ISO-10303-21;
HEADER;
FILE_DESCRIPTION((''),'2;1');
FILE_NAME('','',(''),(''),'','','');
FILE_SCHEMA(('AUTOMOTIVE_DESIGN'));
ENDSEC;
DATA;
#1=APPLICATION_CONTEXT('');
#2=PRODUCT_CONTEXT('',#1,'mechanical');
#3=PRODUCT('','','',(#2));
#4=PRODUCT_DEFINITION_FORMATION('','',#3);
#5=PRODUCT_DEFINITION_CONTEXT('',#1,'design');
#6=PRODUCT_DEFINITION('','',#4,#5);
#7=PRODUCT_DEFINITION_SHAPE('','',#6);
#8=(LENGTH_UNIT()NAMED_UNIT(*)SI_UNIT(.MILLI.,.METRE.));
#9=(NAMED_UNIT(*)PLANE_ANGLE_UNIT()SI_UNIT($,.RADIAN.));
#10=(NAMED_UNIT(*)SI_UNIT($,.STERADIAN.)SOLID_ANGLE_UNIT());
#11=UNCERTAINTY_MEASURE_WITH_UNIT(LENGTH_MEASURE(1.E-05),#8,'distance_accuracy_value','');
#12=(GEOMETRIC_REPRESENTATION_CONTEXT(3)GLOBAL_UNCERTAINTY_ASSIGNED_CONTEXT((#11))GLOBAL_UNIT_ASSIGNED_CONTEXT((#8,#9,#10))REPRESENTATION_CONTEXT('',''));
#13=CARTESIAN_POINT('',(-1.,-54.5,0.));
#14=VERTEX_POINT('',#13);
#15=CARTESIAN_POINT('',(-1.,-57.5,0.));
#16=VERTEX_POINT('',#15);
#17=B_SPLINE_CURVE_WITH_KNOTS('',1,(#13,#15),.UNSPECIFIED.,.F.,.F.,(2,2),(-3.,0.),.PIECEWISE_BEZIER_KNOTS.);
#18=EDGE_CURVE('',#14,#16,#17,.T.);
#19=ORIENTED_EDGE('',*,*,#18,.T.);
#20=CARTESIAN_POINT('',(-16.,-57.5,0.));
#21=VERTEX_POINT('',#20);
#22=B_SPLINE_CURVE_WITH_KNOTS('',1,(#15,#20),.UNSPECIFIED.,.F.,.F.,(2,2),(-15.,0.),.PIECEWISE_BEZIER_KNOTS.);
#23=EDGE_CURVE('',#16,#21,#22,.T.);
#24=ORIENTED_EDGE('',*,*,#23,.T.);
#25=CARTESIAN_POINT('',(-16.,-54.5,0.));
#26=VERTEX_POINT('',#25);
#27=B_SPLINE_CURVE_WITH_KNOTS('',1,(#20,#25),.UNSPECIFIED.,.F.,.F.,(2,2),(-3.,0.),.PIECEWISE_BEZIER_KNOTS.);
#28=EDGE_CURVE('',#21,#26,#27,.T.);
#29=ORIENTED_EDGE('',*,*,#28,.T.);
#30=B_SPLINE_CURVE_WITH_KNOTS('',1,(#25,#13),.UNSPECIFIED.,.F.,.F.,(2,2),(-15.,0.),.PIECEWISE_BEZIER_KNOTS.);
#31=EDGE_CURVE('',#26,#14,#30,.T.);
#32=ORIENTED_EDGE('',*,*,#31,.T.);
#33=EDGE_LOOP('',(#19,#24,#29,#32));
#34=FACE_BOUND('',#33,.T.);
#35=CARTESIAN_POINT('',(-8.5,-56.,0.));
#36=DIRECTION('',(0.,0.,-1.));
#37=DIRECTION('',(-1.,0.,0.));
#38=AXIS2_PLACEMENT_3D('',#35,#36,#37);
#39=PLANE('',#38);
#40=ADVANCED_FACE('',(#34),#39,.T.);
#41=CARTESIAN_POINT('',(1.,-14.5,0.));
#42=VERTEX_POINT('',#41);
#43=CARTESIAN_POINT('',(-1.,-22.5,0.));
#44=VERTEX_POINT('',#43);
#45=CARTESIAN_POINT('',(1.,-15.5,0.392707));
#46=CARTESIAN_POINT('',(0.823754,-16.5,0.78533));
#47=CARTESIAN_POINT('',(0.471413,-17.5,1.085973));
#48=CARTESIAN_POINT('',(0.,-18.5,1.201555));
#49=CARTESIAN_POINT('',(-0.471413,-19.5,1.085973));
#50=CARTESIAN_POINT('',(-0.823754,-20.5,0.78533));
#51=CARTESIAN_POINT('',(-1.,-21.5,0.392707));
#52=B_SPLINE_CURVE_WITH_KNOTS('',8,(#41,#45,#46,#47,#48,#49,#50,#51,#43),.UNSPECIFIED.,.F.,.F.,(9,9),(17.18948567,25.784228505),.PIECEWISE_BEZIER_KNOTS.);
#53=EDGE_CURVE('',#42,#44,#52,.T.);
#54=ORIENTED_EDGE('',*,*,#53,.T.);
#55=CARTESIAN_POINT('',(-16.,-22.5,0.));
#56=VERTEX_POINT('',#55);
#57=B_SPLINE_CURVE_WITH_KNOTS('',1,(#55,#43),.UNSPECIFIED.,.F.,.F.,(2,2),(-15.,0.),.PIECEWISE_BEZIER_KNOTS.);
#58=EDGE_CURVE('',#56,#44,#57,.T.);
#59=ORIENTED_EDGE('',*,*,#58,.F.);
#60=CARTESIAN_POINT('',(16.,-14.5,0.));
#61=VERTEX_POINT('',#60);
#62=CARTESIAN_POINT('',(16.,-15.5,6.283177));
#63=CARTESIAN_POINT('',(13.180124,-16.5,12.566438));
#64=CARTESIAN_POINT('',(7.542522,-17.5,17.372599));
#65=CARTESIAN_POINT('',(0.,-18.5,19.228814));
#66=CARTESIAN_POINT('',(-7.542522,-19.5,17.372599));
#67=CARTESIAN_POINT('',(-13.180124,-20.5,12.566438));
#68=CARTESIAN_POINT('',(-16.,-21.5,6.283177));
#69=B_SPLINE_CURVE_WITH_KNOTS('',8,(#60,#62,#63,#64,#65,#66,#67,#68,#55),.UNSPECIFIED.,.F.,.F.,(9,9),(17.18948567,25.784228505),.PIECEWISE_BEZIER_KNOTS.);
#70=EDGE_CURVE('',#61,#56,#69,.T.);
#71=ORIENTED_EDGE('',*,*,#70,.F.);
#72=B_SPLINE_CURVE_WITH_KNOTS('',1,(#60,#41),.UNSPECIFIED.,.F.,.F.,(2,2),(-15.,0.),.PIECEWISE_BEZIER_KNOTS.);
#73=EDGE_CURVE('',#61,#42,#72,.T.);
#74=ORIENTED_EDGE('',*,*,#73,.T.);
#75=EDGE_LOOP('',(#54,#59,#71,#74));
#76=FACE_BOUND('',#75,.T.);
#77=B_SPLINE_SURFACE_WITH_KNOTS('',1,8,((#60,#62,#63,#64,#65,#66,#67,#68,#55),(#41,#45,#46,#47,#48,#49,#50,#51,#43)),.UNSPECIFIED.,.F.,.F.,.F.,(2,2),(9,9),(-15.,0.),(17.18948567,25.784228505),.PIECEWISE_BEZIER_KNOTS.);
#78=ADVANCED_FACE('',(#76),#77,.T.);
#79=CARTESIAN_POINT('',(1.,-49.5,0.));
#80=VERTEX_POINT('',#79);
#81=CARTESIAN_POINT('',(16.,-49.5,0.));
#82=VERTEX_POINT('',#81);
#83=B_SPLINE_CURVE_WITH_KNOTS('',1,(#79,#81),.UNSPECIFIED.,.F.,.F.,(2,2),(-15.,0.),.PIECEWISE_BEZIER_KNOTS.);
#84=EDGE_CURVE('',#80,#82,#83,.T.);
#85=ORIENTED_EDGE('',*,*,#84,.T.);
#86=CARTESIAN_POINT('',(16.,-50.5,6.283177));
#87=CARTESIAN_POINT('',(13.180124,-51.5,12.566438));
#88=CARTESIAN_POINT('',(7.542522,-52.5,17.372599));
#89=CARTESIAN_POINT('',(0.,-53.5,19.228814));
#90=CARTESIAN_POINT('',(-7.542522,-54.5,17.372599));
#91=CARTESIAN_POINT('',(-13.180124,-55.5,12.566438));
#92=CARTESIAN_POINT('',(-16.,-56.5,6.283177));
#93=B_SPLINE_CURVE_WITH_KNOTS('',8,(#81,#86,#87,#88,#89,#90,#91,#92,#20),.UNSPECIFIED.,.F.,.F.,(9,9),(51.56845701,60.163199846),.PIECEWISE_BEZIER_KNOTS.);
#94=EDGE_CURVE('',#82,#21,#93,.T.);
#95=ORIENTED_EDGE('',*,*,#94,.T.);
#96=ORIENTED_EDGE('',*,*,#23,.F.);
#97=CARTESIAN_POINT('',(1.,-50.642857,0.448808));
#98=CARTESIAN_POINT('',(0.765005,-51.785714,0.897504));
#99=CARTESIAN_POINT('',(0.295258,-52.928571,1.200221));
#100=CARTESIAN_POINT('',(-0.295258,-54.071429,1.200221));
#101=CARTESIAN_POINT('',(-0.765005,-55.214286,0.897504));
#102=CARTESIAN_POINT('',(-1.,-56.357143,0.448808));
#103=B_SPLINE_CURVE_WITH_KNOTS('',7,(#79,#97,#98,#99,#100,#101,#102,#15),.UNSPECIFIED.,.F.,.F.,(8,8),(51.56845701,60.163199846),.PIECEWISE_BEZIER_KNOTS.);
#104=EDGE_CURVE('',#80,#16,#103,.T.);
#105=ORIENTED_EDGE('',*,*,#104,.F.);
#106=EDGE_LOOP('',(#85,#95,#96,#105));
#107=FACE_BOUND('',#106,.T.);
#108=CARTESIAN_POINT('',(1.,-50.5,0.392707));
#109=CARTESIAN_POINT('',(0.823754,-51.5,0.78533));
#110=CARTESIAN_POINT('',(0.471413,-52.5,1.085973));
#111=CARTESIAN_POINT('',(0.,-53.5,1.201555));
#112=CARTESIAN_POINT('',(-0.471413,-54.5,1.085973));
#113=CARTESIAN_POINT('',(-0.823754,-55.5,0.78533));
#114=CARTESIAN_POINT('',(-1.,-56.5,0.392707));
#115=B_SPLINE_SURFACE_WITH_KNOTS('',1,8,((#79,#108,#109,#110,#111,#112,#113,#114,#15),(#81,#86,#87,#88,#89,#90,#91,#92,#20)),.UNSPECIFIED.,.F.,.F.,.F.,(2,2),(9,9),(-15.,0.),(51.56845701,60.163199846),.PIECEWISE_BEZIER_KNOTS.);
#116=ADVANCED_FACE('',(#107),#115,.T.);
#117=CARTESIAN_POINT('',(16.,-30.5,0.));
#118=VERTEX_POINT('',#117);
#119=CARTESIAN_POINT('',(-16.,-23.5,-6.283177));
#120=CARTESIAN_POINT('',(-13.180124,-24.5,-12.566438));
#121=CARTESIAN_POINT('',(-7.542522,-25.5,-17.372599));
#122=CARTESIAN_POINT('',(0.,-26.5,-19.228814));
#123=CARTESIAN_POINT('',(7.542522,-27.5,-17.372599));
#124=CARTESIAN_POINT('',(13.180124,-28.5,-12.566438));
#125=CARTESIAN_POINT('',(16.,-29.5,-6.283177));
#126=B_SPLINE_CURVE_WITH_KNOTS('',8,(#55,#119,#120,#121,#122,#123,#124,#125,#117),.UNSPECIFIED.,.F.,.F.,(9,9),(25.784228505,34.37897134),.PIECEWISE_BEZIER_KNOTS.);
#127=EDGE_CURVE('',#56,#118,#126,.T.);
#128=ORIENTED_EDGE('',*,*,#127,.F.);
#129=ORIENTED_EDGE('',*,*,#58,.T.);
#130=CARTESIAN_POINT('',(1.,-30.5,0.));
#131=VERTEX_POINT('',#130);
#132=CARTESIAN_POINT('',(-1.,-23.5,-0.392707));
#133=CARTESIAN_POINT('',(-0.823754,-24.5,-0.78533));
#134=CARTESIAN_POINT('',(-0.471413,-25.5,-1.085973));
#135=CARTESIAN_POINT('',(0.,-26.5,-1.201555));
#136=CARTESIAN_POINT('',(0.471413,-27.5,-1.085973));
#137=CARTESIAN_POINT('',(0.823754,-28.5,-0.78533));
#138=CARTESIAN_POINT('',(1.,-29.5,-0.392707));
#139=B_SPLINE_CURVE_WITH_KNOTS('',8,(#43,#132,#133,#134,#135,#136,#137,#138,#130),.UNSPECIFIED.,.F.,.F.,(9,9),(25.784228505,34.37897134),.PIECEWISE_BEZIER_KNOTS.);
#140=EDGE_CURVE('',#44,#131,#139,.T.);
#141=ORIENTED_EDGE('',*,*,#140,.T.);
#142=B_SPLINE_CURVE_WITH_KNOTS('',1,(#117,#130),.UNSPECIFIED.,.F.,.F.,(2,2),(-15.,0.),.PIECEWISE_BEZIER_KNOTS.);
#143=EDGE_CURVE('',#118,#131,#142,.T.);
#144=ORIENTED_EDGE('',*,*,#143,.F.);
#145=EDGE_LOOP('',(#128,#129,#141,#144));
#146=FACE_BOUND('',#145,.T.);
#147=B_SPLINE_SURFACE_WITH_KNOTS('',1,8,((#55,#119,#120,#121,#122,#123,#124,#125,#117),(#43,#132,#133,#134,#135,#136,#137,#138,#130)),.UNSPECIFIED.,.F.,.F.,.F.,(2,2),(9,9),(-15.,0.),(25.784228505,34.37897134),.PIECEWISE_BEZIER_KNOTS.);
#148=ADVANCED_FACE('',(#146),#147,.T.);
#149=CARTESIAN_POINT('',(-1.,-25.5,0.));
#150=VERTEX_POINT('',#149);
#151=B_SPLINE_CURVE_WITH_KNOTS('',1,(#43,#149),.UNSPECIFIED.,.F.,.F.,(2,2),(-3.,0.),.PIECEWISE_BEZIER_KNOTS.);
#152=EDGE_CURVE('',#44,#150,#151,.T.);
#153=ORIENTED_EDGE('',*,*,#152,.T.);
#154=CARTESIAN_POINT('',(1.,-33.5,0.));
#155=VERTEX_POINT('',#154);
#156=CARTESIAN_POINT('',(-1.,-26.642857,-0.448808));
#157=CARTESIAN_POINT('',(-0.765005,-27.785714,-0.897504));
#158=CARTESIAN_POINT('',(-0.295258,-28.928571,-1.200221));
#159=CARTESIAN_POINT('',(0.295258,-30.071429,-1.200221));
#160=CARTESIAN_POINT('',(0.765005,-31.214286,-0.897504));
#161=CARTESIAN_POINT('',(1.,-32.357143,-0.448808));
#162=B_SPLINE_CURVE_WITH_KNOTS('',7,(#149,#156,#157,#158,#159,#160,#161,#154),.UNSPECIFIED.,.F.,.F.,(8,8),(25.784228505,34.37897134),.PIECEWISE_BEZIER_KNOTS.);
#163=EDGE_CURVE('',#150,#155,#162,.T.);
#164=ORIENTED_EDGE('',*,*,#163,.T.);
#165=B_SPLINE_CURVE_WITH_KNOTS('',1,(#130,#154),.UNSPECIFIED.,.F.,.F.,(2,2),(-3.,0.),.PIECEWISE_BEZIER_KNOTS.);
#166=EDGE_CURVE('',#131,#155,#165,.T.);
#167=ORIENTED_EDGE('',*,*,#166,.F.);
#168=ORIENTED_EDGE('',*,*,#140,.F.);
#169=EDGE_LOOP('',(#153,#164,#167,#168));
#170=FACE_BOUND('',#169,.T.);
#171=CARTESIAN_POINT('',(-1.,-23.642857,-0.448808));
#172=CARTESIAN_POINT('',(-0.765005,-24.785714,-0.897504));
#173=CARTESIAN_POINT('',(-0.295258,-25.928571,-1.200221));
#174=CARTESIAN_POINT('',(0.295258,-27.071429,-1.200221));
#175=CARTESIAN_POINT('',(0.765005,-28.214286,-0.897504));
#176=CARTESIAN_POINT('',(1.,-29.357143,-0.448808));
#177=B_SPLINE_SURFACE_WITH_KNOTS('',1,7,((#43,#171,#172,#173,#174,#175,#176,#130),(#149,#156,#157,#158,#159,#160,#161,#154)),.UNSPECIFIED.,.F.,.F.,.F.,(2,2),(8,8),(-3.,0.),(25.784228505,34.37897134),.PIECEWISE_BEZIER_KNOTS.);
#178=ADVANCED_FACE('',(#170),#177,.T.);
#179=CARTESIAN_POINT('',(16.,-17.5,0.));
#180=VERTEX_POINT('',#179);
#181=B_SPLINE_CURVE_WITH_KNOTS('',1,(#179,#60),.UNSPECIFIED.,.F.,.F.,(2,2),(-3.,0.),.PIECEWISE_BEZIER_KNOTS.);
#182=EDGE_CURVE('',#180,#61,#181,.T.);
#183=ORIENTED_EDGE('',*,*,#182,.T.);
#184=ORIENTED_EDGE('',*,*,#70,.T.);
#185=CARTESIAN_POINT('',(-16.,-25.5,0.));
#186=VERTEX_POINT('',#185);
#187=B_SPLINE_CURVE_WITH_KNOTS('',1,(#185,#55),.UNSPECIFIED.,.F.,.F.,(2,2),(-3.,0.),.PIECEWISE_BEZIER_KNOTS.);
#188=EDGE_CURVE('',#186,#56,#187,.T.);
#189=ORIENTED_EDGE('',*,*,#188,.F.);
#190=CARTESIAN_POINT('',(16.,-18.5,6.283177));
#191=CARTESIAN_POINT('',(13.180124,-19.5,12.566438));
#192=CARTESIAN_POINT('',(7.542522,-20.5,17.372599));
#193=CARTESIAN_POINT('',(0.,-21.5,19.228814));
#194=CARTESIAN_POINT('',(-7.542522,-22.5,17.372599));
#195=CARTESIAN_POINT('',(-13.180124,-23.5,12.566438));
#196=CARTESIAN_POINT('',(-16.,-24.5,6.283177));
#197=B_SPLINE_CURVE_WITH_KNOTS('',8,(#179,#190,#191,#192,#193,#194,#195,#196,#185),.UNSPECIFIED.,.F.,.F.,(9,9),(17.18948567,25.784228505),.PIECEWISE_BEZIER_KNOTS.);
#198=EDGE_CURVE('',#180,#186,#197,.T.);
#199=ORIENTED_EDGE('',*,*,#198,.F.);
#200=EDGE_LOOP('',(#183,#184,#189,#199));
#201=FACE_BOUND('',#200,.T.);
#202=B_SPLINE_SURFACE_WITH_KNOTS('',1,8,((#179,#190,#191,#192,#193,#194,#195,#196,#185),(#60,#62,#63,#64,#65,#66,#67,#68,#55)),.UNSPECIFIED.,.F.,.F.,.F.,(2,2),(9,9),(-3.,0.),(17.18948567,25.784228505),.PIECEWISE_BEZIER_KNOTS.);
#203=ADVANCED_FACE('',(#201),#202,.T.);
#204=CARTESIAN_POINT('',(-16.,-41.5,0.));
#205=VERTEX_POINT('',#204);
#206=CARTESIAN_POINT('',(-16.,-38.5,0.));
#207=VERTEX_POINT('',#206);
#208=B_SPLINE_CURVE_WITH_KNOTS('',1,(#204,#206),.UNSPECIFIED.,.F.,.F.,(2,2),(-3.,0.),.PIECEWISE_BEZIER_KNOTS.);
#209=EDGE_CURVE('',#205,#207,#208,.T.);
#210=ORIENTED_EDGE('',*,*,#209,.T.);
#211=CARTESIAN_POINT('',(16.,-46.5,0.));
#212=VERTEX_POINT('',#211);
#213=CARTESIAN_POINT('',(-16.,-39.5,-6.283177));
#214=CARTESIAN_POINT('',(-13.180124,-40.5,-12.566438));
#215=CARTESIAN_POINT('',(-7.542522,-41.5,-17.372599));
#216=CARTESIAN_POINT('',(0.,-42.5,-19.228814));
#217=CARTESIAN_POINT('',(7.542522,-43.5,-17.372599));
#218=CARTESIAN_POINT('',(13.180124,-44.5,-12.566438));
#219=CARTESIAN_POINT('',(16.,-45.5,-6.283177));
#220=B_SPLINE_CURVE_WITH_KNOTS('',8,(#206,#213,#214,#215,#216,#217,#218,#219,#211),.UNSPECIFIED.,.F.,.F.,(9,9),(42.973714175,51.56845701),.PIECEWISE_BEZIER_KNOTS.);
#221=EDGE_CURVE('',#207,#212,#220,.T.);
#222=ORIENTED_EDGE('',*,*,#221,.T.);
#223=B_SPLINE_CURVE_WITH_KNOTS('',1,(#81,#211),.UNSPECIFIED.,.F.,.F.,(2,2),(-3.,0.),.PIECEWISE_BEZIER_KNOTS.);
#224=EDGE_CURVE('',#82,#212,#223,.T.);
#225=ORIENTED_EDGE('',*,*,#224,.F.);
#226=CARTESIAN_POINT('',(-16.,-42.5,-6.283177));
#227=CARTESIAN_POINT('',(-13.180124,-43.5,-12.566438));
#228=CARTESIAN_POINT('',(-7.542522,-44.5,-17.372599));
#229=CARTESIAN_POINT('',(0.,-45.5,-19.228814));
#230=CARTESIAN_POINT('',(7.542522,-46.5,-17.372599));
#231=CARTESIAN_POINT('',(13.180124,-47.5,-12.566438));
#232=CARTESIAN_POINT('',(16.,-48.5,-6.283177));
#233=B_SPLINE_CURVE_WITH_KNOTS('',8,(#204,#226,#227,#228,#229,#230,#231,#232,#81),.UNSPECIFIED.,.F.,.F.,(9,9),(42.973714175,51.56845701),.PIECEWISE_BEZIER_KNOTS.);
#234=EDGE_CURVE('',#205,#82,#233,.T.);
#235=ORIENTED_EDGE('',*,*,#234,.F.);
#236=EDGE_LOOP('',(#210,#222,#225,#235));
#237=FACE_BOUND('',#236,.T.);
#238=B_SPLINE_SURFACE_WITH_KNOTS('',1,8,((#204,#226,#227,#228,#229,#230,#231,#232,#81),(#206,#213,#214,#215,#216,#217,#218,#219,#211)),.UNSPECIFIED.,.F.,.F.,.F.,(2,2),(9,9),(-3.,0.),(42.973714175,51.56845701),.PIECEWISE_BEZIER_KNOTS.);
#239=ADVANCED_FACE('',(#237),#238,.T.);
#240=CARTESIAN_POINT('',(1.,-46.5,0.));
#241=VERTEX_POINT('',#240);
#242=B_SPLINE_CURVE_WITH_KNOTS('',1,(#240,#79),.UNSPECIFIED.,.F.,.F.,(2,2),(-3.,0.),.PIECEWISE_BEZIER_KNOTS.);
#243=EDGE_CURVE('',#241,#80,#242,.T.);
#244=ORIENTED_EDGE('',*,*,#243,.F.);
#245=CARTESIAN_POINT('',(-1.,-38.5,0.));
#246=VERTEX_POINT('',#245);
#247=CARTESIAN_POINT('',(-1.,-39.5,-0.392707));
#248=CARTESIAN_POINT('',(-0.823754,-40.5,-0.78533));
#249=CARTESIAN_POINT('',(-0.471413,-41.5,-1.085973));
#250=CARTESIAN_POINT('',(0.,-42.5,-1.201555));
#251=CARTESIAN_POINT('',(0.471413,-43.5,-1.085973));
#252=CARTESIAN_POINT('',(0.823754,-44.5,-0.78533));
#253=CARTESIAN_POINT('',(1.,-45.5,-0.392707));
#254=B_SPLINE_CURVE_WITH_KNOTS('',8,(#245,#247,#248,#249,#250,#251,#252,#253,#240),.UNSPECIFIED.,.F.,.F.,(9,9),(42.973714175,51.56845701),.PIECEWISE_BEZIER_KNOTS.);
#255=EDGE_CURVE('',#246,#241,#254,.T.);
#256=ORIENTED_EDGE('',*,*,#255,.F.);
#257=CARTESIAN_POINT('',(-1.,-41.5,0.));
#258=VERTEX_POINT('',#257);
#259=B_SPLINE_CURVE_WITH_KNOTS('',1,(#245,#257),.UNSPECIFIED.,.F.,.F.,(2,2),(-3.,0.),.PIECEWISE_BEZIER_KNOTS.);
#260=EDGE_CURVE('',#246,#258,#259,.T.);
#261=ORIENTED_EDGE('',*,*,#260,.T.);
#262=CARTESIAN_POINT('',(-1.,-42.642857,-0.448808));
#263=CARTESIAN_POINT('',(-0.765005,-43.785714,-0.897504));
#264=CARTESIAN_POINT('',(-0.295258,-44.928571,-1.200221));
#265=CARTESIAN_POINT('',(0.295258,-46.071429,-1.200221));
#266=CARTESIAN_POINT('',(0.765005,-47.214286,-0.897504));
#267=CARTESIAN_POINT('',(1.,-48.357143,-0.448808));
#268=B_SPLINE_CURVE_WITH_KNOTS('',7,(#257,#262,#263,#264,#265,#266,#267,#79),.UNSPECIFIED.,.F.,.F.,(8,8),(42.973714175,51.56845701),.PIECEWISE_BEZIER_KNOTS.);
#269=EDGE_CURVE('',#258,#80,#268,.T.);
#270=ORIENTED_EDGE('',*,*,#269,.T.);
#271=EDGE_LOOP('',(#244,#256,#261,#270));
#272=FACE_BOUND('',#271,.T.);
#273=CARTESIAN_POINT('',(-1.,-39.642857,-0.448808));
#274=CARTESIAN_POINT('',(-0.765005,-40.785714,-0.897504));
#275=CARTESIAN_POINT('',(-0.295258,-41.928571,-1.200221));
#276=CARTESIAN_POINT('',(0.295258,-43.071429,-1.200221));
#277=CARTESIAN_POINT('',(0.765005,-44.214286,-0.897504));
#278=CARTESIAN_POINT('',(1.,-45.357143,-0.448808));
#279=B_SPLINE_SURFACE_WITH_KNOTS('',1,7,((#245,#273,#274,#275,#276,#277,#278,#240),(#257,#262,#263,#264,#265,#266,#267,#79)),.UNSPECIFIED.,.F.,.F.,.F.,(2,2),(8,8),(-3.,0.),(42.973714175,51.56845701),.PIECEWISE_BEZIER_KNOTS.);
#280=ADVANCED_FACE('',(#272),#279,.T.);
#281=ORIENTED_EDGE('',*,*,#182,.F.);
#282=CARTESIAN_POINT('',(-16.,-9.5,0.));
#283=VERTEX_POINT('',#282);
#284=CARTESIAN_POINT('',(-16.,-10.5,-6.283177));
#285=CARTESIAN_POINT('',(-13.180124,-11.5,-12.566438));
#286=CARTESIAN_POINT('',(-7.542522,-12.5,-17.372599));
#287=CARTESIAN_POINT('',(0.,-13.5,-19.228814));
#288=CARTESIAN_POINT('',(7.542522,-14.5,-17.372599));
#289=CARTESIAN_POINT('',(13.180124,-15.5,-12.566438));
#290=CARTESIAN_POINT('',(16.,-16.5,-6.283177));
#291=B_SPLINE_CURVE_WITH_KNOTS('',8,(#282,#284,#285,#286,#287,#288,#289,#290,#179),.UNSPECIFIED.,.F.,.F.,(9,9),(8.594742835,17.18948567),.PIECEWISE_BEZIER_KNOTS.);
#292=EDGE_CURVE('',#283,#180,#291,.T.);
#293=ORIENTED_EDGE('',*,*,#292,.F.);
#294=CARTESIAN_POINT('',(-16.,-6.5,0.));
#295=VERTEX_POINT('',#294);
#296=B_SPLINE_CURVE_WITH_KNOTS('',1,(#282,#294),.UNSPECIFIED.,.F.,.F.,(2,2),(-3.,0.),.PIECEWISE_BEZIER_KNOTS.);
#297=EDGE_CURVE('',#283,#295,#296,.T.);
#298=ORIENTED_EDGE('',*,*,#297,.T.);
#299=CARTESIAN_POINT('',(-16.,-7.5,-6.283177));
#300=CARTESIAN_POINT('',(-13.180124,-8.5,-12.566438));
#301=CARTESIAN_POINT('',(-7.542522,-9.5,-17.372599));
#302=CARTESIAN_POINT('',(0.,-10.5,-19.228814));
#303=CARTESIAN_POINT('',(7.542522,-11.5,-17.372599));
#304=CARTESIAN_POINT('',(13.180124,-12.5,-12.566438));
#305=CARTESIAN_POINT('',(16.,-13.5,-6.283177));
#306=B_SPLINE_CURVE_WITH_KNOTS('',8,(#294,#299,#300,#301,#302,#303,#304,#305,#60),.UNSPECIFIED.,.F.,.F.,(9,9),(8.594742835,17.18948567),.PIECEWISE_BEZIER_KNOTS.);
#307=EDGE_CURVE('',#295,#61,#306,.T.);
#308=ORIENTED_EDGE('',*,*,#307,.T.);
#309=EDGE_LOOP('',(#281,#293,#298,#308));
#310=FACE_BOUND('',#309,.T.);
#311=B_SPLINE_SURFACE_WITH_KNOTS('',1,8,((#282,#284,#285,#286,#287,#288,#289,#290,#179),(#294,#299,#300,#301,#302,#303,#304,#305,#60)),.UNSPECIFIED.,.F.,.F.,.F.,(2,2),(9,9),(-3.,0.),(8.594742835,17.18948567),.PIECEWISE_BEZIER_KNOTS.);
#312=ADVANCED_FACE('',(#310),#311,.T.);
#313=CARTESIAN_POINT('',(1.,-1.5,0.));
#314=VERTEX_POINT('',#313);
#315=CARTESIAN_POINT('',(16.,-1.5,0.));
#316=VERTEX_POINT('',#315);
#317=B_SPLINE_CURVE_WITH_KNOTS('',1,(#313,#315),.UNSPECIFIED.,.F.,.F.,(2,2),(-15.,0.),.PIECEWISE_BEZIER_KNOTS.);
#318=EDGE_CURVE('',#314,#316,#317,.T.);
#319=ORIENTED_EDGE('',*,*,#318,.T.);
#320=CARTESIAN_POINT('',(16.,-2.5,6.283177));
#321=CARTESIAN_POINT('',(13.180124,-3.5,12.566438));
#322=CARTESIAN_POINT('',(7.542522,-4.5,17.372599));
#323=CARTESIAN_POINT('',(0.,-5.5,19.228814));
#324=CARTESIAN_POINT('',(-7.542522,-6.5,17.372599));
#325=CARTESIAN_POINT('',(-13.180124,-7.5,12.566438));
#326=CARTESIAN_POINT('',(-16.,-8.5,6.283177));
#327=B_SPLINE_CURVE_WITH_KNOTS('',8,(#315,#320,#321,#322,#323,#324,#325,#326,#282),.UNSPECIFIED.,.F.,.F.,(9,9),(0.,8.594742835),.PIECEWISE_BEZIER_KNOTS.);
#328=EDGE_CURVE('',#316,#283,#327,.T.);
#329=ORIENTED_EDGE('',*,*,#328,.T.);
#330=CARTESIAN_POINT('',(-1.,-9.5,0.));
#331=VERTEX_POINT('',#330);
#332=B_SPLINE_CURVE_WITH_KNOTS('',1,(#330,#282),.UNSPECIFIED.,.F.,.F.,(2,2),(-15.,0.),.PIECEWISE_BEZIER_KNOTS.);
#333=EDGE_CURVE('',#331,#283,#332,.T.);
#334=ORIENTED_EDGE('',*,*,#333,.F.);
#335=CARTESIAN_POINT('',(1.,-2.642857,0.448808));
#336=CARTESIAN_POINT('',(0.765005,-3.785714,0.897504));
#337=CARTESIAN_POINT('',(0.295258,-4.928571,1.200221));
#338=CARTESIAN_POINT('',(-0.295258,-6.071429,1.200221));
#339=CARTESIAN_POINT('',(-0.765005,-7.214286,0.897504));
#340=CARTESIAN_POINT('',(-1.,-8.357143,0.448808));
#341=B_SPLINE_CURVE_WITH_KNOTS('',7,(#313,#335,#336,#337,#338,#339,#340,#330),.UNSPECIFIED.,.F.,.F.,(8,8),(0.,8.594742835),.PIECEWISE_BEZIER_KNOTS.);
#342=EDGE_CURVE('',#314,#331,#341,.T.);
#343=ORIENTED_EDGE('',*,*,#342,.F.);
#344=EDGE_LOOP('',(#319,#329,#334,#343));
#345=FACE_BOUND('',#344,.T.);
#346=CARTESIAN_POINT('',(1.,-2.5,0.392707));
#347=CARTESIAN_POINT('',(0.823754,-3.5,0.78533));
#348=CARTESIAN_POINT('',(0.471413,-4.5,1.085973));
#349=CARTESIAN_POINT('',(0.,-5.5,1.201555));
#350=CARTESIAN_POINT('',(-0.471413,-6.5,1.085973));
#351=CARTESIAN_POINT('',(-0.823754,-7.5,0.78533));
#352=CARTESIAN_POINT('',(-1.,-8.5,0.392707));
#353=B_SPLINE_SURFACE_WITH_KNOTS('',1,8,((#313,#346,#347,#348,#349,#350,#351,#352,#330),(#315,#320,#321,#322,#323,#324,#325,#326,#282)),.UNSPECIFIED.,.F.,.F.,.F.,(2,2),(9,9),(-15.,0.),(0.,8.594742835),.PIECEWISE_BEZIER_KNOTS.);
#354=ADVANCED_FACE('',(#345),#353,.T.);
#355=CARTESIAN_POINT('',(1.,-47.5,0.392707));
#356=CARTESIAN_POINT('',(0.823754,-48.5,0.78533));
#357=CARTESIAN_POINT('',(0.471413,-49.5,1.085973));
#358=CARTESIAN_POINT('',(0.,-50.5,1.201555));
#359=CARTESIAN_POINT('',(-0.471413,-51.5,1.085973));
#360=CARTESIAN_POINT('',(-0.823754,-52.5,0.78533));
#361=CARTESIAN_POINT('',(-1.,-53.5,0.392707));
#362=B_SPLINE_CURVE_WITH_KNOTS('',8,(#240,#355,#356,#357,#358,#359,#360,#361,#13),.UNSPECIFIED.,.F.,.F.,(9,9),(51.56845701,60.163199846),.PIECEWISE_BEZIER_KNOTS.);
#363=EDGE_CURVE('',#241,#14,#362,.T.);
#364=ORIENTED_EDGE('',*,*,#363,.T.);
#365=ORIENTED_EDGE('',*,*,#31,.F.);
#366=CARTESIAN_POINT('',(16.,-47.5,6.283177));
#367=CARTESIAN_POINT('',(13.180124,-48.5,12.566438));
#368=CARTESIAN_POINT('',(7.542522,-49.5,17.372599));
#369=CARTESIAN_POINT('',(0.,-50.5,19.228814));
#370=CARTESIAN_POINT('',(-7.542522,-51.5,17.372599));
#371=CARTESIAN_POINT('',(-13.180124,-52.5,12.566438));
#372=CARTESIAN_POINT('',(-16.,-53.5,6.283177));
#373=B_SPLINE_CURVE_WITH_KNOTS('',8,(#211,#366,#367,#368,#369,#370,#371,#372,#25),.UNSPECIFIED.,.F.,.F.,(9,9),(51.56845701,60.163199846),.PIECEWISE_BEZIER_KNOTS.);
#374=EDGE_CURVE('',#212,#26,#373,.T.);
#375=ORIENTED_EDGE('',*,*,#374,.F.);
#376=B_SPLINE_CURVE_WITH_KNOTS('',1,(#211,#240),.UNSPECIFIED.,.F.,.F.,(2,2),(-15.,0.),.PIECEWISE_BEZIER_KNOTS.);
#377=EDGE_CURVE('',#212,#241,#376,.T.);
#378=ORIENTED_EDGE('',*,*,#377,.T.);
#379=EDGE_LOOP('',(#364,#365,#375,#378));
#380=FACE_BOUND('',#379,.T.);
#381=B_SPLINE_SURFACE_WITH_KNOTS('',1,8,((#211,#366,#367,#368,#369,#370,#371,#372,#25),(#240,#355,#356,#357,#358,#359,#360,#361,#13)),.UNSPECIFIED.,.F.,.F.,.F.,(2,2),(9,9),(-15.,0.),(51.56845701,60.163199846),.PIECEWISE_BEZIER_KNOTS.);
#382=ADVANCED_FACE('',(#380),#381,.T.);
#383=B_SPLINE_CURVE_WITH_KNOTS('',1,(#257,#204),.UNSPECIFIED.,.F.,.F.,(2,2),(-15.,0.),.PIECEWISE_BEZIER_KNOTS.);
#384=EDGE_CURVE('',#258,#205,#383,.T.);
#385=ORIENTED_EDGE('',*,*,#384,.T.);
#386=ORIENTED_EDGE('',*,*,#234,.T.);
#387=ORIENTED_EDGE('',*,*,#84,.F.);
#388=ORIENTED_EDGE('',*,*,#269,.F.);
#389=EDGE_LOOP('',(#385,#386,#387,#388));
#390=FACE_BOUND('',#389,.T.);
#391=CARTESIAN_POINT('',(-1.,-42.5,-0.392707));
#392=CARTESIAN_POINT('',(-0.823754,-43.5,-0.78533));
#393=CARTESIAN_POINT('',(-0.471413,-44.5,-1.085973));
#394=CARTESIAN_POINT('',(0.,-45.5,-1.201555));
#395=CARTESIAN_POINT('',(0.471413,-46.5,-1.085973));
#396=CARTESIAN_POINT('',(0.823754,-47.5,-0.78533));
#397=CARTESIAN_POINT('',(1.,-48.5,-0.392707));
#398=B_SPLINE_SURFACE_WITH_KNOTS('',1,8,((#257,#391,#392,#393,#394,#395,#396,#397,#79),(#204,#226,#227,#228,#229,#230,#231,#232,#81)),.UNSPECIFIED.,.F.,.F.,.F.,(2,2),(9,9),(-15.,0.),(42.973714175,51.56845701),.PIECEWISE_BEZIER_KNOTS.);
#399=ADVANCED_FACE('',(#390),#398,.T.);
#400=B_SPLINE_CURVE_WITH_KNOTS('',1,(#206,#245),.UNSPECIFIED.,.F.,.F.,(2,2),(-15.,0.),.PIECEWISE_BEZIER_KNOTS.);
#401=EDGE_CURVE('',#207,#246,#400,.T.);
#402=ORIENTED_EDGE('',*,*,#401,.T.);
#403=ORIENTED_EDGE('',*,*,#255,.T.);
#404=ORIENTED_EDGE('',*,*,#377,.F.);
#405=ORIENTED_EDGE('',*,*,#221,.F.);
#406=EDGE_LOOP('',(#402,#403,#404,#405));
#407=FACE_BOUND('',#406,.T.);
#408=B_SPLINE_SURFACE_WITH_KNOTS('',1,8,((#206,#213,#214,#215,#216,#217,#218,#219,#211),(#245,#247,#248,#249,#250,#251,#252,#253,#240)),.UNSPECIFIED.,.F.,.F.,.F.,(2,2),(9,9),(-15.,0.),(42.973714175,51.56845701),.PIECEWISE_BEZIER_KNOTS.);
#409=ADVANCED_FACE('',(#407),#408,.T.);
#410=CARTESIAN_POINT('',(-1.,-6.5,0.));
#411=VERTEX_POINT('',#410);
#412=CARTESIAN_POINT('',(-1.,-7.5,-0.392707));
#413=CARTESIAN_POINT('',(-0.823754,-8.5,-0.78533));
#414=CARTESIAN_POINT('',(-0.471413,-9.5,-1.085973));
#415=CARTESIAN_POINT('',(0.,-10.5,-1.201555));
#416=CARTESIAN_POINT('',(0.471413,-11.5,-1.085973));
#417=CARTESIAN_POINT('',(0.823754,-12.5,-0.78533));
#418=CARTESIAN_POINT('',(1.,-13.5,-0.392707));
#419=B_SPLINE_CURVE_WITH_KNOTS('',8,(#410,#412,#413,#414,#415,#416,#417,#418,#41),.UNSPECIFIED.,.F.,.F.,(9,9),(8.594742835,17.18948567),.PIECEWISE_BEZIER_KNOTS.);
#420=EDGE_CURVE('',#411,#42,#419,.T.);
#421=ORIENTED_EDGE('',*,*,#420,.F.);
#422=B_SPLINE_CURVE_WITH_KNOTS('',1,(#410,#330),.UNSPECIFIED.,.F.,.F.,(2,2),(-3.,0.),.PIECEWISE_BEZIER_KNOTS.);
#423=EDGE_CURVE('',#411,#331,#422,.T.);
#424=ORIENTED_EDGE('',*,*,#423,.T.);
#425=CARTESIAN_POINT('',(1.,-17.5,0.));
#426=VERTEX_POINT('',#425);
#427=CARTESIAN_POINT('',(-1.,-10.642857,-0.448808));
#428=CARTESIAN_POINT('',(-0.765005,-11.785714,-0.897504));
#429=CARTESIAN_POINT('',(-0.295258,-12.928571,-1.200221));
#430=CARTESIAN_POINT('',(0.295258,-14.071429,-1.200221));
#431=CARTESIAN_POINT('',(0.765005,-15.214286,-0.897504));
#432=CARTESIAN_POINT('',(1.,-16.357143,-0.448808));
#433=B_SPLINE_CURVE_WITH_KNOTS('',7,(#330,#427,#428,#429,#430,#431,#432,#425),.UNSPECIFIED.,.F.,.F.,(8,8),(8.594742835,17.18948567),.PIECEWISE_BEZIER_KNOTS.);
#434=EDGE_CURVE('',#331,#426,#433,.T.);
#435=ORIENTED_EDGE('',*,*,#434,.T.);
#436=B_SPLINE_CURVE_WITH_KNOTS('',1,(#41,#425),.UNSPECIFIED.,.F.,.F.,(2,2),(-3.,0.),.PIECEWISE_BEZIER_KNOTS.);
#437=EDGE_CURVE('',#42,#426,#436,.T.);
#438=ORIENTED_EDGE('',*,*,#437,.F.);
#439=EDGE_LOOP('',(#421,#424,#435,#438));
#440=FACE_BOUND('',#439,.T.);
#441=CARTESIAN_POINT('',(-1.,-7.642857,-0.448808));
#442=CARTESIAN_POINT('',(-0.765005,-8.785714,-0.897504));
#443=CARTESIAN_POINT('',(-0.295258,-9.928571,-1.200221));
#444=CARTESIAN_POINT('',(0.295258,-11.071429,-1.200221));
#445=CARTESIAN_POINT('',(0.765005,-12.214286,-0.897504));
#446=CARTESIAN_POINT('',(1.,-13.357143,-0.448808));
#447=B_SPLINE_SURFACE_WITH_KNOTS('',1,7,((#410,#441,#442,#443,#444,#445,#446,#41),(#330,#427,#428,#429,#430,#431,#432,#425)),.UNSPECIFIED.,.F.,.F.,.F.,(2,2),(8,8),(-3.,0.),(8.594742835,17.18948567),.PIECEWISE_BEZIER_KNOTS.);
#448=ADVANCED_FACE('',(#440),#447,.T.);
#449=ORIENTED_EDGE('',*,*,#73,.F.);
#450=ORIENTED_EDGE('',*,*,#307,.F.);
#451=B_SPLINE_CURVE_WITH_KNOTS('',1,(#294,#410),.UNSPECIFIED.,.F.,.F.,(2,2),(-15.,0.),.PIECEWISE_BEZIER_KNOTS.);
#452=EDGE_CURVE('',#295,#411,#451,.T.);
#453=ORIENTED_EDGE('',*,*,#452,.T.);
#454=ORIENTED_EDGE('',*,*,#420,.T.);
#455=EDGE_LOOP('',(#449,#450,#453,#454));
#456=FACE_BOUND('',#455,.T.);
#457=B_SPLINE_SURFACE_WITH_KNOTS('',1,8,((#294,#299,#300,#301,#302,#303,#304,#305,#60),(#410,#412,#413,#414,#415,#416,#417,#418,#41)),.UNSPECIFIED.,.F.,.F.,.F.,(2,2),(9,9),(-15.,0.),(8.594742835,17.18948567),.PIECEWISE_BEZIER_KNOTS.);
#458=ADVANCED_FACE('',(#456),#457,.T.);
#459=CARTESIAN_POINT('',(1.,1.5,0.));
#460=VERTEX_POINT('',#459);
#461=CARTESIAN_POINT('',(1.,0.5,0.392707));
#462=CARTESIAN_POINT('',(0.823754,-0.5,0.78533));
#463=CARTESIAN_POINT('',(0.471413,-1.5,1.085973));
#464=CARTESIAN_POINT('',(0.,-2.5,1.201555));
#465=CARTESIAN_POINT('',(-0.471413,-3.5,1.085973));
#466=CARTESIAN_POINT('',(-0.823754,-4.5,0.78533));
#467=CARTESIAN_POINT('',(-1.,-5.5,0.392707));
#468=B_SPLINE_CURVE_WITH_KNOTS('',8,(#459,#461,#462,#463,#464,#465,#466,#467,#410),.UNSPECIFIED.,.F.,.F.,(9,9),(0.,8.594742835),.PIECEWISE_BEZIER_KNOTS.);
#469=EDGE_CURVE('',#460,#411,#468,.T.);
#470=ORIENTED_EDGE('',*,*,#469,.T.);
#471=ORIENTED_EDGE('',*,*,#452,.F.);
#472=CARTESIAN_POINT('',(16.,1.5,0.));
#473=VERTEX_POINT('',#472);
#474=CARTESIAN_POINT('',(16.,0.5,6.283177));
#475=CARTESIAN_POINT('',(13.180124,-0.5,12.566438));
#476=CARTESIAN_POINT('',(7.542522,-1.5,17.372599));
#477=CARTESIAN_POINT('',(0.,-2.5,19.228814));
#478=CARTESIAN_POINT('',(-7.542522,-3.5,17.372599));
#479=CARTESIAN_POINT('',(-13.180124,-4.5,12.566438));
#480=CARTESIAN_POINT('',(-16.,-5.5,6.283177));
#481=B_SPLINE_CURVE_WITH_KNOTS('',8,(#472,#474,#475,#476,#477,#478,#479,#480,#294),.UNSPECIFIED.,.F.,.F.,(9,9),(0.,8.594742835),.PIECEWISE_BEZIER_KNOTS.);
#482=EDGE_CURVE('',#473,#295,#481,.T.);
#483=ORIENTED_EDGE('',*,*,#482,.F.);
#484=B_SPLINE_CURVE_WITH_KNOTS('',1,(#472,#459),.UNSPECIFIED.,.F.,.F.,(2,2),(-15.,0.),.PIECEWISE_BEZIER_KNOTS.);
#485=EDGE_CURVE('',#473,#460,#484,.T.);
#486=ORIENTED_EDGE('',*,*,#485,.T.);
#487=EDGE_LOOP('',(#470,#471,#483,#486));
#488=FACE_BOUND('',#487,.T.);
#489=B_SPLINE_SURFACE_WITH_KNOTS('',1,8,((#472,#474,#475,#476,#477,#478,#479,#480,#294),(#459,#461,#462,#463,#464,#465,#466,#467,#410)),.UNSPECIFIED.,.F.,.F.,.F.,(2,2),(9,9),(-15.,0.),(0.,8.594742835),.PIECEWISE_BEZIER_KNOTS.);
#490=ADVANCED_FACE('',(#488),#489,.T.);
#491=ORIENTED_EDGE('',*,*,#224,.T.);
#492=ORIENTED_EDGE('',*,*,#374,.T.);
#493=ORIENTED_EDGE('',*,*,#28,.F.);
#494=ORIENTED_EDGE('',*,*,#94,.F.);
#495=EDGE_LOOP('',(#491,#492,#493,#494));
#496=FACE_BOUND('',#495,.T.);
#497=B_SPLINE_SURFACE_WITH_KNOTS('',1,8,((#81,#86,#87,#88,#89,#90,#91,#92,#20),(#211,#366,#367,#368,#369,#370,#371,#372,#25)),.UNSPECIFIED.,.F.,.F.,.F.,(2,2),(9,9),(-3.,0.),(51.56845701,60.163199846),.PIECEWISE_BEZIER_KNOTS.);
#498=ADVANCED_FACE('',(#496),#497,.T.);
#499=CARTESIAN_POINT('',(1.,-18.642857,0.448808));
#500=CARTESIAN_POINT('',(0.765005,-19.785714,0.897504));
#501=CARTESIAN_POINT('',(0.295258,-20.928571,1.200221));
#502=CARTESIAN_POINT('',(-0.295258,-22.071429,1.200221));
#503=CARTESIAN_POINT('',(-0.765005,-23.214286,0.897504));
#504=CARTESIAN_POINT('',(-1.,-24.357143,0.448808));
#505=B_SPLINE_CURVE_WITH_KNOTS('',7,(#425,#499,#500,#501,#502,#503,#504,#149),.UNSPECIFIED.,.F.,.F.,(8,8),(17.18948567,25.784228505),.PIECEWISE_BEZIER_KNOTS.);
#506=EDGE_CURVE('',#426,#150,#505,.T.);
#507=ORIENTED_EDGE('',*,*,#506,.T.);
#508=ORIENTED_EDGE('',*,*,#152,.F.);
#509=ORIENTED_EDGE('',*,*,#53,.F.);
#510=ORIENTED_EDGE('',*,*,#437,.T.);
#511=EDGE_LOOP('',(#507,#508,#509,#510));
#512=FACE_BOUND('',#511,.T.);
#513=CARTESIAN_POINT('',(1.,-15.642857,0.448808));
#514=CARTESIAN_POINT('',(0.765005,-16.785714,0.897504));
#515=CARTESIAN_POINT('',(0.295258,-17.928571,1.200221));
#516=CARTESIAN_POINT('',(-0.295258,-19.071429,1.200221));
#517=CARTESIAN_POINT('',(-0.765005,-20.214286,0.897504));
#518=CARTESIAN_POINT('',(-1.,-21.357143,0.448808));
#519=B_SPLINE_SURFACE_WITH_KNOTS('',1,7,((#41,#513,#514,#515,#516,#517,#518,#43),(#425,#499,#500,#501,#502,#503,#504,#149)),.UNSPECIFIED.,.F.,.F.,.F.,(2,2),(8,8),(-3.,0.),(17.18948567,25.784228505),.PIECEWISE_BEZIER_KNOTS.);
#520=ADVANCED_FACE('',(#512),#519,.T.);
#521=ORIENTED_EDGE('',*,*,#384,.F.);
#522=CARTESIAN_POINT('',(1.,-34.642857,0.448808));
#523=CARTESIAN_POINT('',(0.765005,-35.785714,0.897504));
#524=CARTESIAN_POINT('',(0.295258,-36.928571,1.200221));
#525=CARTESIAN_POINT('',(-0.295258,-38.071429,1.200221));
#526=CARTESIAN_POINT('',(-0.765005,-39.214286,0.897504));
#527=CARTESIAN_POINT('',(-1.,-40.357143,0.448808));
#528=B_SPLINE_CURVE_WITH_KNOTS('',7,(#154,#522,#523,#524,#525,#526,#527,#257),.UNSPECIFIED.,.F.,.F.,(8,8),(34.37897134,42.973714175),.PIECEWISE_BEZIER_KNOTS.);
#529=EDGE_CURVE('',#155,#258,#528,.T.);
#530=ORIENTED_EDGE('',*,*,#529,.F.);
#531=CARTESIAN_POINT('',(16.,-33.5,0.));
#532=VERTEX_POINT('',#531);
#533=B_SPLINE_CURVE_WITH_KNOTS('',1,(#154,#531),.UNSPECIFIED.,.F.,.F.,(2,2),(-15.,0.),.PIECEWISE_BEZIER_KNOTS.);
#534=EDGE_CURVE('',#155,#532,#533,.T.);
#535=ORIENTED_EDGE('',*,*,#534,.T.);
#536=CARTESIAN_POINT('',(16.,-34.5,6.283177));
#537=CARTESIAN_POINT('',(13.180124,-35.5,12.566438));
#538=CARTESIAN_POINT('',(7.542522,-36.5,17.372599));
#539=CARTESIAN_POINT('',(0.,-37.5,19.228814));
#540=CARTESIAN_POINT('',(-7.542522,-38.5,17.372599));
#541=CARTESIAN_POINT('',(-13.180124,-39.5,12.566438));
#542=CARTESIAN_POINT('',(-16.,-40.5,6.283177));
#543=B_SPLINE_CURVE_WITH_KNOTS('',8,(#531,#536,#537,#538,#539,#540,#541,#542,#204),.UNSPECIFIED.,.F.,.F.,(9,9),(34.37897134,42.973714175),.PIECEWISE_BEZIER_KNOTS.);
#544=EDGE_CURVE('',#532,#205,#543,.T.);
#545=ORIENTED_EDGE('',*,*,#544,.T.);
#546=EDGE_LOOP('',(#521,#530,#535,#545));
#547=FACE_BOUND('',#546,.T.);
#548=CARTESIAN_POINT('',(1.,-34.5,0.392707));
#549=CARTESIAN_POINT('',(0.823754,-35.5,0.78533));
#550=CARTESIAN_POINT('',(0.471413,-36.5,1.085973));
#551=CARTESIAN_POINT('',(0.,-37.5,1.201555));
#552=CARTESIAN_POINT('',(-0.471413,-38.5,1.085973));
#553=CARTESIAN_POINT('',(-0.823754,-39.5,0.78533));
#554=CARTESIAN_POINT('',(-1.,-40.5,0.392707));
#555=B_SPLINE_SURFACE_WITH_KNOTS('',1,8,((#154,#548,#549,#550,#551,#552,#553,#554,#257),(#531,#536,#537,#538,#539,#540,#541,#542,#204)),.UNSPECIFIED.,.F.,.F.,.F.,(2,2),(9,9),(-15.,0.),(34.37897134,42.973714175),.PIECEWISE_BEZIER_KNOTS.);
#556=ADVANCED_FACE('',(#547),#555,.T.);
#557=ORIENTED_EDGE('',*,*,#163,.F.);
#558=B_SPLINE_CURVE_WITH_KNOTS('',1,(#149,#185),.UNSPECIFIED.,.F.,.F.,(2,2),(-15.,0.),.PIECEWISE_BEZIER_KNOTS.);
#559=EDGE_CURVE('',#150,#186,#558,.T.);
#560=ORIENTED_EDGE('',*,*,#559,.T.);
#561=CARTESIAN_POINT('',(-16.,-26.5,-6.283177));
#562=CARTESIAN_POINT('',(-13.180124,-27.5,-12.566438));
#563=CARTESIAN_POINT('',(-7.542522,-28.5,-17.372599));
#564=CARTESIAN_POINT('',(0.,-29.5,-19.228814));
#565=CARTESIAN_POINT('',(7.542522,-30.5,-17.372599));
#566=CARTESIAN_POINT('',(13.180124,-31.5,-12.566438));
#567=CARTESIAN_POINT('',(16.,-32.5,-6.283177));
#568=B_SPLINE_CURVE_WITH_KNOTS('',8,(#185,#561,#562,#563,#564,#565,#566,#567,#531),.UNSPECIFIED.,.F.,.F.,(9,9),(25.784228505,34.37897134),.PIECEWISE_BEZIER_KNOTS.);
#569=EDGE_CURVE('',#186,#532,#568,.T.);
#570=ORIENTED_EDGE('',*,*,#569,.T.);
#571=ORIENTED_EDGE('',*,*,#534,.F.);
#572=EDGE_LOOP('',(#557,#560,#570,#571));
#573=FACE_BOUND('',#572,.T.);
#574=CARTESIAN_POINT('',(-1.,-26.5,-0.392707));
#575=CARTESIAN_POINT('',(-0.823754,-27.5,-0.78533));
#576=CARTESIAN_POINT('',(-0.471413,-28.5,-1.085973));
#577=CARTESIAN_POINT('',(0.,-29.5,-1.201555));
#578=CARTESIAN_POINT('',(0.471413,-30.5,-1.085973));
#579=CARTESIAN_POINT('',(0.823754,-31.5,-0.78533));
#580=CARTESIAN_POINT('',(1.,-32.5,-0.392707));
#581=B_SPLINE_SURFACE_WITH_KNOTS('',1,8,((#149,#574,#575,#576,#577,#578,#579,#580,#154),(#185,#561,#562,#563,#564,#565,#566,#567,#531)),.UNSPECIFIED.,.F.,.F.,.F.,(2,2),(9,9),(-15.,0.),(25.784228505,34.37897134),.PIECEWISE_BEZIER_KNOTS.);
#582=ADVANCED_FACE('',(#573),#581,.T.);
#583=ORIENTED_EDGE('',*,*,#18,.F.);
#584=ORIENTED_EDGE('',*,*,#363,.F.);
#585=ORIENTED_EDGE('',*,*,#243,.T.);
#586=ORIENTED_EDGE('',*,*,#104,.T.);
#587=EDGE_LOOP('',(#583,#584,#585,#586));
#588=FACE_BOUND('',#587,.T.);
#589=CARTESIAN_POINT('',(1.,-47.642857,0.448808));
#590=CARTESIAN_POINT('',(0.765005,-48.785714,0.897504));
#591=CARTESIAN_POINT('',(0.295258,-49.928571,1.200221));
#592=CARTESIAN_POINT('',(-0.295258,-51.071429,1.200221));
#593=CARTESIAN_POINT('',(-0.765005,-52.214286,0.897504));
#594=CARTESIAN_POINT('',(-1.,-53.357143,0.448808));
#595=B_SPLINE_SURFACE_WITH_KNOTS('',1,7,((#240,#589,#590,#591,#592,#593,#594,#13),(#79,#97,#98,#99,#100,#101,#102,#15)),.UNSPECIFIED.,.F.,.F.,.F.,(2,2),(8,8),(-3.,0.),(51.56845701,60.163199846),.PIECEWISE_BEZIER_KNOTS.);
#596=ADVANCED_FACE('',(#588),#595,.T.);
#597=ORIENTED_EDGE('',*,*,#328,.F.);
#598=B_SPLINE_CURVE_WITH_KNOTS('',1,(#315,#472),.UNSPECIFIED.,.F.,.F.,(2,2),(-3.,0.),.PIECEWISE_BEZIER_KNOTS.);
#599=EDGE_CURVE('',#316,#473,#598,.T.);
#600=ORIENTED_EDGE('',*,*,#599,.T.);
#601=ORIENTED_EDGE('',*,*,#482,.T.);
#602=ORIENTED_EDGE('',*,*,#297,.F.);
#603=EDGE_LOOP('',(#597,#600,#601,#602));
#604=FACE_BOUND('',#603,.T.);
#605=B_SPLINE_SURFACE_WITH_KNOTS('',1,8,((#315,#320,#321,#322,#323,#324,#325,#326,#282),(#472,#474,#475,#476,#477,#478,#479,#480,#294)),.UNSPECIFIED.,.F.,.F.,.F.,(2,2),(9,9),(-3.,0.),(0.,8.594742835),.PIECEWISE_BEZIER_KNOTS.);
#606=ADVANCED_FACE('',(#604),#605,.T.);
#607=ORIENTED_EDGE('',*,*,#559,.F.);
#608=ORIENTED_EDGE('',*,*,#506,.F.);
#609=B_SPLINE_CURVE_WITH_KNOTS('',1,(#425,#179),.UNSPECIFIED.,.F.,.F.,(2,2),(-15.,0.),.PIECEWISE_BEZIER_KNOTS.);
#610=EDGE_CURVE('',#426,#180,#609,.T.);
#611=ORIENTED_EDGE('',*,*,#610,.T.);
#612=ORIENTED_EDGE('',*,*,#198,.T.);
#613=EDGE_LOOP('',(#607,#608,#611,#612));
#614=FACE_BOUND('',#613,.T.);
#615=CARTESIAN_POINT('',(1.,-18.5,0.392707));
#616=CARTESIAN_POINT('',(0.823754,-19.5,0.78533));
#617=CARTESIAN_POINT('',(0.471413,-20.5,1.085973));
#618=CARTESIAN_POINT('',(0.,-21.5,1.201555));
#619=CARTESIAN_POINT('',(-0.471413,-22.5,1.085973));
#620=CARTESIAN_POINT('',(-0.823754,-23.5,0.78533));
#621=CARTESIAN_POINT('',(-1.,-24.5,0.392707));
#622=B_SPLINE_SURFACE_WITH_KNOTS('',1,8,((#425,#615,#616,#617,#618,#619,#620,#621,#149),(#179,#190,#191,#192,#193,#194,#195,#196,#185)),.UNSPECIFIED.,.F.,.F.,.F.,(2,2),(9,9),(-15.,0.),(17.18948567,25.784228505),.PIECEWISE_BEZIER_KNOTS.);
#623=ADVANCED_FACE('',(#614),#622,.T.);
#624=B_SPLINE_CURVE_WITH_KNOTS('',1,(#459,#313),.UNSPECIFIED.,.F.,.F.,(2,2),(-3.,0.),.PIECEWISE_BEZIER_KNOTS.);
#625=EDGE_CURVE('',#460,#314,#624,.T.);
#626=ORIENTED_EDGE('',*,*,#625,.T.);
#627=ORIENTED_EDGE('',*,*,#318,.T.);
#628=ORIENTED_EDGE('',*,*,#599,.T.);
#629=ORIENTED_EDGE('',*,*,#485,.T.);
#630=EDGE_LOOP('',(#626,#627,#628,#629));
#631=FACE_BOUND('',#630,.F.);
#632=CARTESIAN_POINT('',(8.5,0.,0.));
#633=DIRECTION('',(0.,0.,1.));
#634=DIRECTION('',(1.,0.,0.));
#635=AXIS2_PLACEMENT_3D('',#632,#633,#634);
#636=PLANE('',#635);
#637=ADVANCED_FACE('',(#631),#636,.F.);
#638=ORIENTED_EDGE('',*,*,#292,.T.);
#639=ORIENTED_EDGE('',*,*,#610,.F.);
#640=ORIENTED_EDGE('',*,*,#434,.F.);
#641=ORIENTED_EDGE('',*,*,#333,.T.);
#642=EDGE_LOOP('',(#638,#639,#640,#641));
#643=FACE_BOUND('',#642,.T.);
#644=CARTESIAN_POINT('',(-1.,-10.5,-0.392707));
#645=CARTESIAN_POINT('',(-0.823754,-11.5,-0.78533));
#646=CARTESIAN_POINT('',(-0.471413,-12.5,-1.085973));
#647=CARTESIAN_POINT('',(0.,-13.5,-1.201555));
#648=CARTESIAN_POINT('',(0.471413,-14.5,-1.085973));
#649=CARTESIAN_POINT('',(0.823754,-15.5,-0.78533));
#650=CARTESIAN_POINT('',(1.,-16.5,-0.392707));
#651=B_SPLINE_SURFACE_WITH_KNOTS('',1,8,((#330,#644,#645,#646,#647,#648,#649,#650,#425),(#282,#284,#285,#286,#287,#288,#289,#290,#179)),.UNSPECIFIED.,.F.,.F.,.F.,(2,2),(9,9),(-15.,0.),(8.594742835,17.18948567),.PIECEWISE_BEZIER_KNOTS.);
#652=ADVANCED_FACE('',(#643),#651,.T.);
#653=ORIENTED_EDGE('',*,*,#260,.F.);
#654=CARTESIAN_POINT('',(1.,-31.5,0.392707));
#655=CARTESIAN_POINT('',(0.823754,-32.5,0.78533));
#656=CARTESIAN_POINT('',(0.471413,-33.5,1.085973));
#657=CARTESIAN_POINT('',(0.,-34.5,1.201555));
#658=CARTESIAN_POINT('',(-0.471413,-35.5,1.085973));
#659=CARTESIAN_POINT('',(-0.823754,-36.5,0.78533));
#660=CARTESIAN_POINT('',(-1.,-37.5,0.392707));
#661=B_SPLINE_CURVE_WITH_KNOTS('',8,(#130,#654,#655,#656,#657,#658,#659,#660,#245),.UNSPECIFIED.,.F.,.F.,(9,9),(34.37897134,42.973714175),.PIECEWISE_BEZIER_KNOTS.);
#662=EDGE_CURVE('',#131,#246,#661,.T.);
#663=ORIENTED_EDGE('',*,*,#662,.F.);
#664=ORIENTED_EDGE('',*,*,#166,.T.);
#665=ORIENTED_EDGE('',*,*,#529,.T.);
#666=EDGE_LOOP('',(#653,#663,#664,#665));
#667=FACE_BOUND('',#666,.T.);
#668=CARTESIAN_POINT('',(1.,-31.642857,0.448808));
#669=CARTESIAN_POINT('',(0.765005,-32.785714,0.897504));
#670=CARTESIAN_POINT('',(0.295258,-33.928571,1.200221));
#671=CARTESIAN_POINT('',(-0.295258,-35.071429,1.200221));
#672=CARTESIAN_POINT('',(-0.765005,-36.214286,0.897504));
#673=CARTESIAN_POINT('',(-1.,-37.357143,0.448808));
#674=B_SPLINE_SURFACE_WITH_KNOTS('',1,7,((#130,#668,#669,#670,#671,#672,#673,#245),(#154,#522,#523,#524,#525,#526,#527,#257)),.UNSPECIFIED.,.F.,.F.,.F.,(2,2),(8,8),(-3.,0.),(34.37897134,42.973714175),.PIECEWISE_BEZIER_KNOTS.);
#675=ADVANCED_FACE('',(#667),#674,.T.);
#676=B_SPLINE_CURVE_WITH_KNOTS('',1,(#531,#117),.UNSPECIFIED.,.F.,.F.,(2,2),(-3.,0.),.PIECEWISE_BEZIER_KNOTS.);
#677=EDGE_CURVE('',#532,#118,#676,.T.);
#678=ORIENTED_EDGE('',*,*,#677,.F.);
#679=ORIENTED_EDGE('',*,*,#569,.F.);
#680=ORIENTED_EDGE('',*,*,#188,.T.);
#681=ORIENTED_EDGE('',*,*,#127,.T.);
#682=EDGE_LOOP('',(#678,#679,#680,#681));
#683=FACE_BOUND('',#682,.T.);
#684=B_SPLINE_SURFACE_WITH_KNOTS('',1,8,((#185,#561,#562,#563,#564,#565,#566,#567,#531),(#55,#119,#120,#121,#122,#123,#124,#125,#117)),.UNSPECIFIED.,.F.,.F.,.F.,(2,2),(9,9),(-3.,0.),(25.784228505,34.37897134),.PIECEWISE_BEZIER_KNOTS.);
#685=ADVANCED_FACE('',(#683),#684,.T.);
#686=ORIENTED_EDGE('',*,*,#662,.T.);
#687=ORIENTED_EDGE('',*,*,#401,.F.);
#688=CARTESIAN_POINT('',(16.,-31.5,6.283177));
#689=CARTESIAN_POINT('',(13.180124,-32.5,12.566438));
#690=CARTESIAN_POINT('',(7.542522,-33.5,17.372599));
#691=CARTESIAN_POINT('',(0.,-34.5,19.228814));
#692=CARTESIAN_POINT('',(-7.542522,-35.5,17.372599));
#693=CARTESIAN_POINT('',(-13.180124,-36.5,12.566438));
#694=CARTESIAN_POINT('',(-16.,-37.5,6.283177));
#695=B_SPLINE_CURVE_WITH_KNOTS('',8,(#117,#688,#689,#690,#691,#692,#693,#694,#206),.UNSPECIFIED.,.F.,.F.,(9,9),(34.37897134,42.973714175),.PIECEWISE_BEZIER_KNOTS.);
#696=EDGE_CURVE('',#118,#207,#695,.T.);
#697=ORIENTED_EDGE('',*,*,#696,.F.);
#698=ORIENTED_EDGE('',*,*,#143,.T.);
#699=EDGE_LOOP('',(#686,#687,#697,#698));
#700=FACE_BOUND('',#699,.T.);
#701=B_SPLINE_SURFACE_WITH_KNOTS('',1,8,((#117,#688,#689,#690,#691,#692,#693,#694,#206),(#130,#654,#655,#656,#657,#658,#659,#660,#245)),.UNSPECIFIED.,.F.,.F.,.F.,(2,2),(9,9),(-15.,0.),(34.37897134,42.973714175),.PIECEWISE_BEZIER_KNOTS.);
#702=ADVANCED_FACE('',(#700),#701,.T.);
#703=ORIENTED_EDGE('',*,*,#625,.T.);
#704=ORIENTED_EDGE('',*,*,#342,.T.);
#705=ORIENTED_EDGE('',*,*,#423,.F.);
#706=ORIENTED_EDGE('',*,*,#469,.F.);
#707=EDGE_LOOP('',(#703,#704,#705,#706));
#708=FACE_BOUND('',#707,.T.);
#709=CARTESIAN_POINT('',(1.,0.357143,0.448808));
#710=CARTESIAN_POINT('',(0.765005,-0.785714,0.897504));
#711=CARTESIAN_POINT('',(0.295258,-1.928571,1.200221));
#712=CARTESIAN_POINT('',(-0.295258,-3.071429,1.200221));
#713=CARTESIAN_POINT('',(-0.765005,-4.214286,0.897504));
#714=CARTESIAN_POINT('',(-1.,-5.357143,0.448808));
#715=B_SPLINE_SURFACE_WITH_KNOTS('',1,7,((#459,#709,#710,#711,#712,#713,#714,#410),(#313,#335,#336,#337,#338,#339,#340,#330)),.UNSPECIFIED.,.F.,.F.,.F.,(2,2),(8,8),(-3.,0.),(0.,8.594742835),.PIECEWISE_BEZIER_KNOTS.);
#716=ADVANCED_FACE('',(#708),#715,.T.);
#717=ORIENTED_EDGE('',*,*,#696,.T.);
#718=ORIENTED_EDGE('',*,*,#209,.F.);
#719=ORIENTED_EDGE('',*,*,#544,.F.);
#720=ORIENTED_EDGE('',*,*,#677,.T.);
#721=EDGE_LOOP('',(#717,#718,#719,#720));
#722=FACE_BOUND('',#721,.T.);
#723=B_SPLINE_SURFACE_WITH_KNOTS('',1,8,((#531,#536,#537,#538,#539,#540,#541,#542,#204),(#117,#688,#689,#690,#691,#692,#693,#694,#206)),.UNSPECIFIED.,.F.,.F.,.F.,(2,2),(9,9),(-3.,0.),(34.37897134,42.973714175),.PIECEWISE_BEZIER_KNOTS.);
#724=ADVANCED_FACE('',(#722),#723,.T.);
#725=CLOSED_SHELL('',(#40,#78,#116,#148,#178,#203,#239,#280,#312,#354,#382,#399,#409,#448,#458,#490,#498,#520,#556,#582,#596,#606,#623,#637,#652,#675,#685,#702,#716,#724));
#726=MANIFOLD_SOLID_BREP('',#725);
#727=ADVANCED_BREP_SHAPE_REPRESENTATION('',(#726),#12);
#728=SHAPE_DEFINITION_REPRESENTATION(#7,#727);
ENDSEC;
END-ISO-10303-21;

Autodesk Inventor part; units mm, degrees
ref_plane "YZ Plane" through (0, 0, 0) normal (1, 0, 0) x (0, 1, 0)
ref_plane "XZ Plane" through (0, 0, 0) normal (0, 1, 0) x (-1, 0, 0)
ref_plane "XY Plane" through (0, 0, 0) normal (0, 0, 1) x (1, 0, 0)
sketch "Boceto3" plane through (0, 0, 0) normal (0, 0, 1) x (1, 0, 0)
  line L0 (1, 1.5) -> (16, 1.5)
  line L1 (16, 1.5) -> (16, -1.5)
  line L2 (16, -1.5) -> (1, -1.5)
  line L3 (1, -1.5) -> (1, 1.5)
  point P0 (0, 0)
  point P1 (1, 0)
  dimension "d4" = 3
  dimension "d5" = 15
  dimension "d6" = 16
coil "Bobina1" sketch "Boceto3" operation add axis through (0, -10, 0) along (0, -1, 0) pitch 16 turns 3.5 hand right
properties part number "bobina"
